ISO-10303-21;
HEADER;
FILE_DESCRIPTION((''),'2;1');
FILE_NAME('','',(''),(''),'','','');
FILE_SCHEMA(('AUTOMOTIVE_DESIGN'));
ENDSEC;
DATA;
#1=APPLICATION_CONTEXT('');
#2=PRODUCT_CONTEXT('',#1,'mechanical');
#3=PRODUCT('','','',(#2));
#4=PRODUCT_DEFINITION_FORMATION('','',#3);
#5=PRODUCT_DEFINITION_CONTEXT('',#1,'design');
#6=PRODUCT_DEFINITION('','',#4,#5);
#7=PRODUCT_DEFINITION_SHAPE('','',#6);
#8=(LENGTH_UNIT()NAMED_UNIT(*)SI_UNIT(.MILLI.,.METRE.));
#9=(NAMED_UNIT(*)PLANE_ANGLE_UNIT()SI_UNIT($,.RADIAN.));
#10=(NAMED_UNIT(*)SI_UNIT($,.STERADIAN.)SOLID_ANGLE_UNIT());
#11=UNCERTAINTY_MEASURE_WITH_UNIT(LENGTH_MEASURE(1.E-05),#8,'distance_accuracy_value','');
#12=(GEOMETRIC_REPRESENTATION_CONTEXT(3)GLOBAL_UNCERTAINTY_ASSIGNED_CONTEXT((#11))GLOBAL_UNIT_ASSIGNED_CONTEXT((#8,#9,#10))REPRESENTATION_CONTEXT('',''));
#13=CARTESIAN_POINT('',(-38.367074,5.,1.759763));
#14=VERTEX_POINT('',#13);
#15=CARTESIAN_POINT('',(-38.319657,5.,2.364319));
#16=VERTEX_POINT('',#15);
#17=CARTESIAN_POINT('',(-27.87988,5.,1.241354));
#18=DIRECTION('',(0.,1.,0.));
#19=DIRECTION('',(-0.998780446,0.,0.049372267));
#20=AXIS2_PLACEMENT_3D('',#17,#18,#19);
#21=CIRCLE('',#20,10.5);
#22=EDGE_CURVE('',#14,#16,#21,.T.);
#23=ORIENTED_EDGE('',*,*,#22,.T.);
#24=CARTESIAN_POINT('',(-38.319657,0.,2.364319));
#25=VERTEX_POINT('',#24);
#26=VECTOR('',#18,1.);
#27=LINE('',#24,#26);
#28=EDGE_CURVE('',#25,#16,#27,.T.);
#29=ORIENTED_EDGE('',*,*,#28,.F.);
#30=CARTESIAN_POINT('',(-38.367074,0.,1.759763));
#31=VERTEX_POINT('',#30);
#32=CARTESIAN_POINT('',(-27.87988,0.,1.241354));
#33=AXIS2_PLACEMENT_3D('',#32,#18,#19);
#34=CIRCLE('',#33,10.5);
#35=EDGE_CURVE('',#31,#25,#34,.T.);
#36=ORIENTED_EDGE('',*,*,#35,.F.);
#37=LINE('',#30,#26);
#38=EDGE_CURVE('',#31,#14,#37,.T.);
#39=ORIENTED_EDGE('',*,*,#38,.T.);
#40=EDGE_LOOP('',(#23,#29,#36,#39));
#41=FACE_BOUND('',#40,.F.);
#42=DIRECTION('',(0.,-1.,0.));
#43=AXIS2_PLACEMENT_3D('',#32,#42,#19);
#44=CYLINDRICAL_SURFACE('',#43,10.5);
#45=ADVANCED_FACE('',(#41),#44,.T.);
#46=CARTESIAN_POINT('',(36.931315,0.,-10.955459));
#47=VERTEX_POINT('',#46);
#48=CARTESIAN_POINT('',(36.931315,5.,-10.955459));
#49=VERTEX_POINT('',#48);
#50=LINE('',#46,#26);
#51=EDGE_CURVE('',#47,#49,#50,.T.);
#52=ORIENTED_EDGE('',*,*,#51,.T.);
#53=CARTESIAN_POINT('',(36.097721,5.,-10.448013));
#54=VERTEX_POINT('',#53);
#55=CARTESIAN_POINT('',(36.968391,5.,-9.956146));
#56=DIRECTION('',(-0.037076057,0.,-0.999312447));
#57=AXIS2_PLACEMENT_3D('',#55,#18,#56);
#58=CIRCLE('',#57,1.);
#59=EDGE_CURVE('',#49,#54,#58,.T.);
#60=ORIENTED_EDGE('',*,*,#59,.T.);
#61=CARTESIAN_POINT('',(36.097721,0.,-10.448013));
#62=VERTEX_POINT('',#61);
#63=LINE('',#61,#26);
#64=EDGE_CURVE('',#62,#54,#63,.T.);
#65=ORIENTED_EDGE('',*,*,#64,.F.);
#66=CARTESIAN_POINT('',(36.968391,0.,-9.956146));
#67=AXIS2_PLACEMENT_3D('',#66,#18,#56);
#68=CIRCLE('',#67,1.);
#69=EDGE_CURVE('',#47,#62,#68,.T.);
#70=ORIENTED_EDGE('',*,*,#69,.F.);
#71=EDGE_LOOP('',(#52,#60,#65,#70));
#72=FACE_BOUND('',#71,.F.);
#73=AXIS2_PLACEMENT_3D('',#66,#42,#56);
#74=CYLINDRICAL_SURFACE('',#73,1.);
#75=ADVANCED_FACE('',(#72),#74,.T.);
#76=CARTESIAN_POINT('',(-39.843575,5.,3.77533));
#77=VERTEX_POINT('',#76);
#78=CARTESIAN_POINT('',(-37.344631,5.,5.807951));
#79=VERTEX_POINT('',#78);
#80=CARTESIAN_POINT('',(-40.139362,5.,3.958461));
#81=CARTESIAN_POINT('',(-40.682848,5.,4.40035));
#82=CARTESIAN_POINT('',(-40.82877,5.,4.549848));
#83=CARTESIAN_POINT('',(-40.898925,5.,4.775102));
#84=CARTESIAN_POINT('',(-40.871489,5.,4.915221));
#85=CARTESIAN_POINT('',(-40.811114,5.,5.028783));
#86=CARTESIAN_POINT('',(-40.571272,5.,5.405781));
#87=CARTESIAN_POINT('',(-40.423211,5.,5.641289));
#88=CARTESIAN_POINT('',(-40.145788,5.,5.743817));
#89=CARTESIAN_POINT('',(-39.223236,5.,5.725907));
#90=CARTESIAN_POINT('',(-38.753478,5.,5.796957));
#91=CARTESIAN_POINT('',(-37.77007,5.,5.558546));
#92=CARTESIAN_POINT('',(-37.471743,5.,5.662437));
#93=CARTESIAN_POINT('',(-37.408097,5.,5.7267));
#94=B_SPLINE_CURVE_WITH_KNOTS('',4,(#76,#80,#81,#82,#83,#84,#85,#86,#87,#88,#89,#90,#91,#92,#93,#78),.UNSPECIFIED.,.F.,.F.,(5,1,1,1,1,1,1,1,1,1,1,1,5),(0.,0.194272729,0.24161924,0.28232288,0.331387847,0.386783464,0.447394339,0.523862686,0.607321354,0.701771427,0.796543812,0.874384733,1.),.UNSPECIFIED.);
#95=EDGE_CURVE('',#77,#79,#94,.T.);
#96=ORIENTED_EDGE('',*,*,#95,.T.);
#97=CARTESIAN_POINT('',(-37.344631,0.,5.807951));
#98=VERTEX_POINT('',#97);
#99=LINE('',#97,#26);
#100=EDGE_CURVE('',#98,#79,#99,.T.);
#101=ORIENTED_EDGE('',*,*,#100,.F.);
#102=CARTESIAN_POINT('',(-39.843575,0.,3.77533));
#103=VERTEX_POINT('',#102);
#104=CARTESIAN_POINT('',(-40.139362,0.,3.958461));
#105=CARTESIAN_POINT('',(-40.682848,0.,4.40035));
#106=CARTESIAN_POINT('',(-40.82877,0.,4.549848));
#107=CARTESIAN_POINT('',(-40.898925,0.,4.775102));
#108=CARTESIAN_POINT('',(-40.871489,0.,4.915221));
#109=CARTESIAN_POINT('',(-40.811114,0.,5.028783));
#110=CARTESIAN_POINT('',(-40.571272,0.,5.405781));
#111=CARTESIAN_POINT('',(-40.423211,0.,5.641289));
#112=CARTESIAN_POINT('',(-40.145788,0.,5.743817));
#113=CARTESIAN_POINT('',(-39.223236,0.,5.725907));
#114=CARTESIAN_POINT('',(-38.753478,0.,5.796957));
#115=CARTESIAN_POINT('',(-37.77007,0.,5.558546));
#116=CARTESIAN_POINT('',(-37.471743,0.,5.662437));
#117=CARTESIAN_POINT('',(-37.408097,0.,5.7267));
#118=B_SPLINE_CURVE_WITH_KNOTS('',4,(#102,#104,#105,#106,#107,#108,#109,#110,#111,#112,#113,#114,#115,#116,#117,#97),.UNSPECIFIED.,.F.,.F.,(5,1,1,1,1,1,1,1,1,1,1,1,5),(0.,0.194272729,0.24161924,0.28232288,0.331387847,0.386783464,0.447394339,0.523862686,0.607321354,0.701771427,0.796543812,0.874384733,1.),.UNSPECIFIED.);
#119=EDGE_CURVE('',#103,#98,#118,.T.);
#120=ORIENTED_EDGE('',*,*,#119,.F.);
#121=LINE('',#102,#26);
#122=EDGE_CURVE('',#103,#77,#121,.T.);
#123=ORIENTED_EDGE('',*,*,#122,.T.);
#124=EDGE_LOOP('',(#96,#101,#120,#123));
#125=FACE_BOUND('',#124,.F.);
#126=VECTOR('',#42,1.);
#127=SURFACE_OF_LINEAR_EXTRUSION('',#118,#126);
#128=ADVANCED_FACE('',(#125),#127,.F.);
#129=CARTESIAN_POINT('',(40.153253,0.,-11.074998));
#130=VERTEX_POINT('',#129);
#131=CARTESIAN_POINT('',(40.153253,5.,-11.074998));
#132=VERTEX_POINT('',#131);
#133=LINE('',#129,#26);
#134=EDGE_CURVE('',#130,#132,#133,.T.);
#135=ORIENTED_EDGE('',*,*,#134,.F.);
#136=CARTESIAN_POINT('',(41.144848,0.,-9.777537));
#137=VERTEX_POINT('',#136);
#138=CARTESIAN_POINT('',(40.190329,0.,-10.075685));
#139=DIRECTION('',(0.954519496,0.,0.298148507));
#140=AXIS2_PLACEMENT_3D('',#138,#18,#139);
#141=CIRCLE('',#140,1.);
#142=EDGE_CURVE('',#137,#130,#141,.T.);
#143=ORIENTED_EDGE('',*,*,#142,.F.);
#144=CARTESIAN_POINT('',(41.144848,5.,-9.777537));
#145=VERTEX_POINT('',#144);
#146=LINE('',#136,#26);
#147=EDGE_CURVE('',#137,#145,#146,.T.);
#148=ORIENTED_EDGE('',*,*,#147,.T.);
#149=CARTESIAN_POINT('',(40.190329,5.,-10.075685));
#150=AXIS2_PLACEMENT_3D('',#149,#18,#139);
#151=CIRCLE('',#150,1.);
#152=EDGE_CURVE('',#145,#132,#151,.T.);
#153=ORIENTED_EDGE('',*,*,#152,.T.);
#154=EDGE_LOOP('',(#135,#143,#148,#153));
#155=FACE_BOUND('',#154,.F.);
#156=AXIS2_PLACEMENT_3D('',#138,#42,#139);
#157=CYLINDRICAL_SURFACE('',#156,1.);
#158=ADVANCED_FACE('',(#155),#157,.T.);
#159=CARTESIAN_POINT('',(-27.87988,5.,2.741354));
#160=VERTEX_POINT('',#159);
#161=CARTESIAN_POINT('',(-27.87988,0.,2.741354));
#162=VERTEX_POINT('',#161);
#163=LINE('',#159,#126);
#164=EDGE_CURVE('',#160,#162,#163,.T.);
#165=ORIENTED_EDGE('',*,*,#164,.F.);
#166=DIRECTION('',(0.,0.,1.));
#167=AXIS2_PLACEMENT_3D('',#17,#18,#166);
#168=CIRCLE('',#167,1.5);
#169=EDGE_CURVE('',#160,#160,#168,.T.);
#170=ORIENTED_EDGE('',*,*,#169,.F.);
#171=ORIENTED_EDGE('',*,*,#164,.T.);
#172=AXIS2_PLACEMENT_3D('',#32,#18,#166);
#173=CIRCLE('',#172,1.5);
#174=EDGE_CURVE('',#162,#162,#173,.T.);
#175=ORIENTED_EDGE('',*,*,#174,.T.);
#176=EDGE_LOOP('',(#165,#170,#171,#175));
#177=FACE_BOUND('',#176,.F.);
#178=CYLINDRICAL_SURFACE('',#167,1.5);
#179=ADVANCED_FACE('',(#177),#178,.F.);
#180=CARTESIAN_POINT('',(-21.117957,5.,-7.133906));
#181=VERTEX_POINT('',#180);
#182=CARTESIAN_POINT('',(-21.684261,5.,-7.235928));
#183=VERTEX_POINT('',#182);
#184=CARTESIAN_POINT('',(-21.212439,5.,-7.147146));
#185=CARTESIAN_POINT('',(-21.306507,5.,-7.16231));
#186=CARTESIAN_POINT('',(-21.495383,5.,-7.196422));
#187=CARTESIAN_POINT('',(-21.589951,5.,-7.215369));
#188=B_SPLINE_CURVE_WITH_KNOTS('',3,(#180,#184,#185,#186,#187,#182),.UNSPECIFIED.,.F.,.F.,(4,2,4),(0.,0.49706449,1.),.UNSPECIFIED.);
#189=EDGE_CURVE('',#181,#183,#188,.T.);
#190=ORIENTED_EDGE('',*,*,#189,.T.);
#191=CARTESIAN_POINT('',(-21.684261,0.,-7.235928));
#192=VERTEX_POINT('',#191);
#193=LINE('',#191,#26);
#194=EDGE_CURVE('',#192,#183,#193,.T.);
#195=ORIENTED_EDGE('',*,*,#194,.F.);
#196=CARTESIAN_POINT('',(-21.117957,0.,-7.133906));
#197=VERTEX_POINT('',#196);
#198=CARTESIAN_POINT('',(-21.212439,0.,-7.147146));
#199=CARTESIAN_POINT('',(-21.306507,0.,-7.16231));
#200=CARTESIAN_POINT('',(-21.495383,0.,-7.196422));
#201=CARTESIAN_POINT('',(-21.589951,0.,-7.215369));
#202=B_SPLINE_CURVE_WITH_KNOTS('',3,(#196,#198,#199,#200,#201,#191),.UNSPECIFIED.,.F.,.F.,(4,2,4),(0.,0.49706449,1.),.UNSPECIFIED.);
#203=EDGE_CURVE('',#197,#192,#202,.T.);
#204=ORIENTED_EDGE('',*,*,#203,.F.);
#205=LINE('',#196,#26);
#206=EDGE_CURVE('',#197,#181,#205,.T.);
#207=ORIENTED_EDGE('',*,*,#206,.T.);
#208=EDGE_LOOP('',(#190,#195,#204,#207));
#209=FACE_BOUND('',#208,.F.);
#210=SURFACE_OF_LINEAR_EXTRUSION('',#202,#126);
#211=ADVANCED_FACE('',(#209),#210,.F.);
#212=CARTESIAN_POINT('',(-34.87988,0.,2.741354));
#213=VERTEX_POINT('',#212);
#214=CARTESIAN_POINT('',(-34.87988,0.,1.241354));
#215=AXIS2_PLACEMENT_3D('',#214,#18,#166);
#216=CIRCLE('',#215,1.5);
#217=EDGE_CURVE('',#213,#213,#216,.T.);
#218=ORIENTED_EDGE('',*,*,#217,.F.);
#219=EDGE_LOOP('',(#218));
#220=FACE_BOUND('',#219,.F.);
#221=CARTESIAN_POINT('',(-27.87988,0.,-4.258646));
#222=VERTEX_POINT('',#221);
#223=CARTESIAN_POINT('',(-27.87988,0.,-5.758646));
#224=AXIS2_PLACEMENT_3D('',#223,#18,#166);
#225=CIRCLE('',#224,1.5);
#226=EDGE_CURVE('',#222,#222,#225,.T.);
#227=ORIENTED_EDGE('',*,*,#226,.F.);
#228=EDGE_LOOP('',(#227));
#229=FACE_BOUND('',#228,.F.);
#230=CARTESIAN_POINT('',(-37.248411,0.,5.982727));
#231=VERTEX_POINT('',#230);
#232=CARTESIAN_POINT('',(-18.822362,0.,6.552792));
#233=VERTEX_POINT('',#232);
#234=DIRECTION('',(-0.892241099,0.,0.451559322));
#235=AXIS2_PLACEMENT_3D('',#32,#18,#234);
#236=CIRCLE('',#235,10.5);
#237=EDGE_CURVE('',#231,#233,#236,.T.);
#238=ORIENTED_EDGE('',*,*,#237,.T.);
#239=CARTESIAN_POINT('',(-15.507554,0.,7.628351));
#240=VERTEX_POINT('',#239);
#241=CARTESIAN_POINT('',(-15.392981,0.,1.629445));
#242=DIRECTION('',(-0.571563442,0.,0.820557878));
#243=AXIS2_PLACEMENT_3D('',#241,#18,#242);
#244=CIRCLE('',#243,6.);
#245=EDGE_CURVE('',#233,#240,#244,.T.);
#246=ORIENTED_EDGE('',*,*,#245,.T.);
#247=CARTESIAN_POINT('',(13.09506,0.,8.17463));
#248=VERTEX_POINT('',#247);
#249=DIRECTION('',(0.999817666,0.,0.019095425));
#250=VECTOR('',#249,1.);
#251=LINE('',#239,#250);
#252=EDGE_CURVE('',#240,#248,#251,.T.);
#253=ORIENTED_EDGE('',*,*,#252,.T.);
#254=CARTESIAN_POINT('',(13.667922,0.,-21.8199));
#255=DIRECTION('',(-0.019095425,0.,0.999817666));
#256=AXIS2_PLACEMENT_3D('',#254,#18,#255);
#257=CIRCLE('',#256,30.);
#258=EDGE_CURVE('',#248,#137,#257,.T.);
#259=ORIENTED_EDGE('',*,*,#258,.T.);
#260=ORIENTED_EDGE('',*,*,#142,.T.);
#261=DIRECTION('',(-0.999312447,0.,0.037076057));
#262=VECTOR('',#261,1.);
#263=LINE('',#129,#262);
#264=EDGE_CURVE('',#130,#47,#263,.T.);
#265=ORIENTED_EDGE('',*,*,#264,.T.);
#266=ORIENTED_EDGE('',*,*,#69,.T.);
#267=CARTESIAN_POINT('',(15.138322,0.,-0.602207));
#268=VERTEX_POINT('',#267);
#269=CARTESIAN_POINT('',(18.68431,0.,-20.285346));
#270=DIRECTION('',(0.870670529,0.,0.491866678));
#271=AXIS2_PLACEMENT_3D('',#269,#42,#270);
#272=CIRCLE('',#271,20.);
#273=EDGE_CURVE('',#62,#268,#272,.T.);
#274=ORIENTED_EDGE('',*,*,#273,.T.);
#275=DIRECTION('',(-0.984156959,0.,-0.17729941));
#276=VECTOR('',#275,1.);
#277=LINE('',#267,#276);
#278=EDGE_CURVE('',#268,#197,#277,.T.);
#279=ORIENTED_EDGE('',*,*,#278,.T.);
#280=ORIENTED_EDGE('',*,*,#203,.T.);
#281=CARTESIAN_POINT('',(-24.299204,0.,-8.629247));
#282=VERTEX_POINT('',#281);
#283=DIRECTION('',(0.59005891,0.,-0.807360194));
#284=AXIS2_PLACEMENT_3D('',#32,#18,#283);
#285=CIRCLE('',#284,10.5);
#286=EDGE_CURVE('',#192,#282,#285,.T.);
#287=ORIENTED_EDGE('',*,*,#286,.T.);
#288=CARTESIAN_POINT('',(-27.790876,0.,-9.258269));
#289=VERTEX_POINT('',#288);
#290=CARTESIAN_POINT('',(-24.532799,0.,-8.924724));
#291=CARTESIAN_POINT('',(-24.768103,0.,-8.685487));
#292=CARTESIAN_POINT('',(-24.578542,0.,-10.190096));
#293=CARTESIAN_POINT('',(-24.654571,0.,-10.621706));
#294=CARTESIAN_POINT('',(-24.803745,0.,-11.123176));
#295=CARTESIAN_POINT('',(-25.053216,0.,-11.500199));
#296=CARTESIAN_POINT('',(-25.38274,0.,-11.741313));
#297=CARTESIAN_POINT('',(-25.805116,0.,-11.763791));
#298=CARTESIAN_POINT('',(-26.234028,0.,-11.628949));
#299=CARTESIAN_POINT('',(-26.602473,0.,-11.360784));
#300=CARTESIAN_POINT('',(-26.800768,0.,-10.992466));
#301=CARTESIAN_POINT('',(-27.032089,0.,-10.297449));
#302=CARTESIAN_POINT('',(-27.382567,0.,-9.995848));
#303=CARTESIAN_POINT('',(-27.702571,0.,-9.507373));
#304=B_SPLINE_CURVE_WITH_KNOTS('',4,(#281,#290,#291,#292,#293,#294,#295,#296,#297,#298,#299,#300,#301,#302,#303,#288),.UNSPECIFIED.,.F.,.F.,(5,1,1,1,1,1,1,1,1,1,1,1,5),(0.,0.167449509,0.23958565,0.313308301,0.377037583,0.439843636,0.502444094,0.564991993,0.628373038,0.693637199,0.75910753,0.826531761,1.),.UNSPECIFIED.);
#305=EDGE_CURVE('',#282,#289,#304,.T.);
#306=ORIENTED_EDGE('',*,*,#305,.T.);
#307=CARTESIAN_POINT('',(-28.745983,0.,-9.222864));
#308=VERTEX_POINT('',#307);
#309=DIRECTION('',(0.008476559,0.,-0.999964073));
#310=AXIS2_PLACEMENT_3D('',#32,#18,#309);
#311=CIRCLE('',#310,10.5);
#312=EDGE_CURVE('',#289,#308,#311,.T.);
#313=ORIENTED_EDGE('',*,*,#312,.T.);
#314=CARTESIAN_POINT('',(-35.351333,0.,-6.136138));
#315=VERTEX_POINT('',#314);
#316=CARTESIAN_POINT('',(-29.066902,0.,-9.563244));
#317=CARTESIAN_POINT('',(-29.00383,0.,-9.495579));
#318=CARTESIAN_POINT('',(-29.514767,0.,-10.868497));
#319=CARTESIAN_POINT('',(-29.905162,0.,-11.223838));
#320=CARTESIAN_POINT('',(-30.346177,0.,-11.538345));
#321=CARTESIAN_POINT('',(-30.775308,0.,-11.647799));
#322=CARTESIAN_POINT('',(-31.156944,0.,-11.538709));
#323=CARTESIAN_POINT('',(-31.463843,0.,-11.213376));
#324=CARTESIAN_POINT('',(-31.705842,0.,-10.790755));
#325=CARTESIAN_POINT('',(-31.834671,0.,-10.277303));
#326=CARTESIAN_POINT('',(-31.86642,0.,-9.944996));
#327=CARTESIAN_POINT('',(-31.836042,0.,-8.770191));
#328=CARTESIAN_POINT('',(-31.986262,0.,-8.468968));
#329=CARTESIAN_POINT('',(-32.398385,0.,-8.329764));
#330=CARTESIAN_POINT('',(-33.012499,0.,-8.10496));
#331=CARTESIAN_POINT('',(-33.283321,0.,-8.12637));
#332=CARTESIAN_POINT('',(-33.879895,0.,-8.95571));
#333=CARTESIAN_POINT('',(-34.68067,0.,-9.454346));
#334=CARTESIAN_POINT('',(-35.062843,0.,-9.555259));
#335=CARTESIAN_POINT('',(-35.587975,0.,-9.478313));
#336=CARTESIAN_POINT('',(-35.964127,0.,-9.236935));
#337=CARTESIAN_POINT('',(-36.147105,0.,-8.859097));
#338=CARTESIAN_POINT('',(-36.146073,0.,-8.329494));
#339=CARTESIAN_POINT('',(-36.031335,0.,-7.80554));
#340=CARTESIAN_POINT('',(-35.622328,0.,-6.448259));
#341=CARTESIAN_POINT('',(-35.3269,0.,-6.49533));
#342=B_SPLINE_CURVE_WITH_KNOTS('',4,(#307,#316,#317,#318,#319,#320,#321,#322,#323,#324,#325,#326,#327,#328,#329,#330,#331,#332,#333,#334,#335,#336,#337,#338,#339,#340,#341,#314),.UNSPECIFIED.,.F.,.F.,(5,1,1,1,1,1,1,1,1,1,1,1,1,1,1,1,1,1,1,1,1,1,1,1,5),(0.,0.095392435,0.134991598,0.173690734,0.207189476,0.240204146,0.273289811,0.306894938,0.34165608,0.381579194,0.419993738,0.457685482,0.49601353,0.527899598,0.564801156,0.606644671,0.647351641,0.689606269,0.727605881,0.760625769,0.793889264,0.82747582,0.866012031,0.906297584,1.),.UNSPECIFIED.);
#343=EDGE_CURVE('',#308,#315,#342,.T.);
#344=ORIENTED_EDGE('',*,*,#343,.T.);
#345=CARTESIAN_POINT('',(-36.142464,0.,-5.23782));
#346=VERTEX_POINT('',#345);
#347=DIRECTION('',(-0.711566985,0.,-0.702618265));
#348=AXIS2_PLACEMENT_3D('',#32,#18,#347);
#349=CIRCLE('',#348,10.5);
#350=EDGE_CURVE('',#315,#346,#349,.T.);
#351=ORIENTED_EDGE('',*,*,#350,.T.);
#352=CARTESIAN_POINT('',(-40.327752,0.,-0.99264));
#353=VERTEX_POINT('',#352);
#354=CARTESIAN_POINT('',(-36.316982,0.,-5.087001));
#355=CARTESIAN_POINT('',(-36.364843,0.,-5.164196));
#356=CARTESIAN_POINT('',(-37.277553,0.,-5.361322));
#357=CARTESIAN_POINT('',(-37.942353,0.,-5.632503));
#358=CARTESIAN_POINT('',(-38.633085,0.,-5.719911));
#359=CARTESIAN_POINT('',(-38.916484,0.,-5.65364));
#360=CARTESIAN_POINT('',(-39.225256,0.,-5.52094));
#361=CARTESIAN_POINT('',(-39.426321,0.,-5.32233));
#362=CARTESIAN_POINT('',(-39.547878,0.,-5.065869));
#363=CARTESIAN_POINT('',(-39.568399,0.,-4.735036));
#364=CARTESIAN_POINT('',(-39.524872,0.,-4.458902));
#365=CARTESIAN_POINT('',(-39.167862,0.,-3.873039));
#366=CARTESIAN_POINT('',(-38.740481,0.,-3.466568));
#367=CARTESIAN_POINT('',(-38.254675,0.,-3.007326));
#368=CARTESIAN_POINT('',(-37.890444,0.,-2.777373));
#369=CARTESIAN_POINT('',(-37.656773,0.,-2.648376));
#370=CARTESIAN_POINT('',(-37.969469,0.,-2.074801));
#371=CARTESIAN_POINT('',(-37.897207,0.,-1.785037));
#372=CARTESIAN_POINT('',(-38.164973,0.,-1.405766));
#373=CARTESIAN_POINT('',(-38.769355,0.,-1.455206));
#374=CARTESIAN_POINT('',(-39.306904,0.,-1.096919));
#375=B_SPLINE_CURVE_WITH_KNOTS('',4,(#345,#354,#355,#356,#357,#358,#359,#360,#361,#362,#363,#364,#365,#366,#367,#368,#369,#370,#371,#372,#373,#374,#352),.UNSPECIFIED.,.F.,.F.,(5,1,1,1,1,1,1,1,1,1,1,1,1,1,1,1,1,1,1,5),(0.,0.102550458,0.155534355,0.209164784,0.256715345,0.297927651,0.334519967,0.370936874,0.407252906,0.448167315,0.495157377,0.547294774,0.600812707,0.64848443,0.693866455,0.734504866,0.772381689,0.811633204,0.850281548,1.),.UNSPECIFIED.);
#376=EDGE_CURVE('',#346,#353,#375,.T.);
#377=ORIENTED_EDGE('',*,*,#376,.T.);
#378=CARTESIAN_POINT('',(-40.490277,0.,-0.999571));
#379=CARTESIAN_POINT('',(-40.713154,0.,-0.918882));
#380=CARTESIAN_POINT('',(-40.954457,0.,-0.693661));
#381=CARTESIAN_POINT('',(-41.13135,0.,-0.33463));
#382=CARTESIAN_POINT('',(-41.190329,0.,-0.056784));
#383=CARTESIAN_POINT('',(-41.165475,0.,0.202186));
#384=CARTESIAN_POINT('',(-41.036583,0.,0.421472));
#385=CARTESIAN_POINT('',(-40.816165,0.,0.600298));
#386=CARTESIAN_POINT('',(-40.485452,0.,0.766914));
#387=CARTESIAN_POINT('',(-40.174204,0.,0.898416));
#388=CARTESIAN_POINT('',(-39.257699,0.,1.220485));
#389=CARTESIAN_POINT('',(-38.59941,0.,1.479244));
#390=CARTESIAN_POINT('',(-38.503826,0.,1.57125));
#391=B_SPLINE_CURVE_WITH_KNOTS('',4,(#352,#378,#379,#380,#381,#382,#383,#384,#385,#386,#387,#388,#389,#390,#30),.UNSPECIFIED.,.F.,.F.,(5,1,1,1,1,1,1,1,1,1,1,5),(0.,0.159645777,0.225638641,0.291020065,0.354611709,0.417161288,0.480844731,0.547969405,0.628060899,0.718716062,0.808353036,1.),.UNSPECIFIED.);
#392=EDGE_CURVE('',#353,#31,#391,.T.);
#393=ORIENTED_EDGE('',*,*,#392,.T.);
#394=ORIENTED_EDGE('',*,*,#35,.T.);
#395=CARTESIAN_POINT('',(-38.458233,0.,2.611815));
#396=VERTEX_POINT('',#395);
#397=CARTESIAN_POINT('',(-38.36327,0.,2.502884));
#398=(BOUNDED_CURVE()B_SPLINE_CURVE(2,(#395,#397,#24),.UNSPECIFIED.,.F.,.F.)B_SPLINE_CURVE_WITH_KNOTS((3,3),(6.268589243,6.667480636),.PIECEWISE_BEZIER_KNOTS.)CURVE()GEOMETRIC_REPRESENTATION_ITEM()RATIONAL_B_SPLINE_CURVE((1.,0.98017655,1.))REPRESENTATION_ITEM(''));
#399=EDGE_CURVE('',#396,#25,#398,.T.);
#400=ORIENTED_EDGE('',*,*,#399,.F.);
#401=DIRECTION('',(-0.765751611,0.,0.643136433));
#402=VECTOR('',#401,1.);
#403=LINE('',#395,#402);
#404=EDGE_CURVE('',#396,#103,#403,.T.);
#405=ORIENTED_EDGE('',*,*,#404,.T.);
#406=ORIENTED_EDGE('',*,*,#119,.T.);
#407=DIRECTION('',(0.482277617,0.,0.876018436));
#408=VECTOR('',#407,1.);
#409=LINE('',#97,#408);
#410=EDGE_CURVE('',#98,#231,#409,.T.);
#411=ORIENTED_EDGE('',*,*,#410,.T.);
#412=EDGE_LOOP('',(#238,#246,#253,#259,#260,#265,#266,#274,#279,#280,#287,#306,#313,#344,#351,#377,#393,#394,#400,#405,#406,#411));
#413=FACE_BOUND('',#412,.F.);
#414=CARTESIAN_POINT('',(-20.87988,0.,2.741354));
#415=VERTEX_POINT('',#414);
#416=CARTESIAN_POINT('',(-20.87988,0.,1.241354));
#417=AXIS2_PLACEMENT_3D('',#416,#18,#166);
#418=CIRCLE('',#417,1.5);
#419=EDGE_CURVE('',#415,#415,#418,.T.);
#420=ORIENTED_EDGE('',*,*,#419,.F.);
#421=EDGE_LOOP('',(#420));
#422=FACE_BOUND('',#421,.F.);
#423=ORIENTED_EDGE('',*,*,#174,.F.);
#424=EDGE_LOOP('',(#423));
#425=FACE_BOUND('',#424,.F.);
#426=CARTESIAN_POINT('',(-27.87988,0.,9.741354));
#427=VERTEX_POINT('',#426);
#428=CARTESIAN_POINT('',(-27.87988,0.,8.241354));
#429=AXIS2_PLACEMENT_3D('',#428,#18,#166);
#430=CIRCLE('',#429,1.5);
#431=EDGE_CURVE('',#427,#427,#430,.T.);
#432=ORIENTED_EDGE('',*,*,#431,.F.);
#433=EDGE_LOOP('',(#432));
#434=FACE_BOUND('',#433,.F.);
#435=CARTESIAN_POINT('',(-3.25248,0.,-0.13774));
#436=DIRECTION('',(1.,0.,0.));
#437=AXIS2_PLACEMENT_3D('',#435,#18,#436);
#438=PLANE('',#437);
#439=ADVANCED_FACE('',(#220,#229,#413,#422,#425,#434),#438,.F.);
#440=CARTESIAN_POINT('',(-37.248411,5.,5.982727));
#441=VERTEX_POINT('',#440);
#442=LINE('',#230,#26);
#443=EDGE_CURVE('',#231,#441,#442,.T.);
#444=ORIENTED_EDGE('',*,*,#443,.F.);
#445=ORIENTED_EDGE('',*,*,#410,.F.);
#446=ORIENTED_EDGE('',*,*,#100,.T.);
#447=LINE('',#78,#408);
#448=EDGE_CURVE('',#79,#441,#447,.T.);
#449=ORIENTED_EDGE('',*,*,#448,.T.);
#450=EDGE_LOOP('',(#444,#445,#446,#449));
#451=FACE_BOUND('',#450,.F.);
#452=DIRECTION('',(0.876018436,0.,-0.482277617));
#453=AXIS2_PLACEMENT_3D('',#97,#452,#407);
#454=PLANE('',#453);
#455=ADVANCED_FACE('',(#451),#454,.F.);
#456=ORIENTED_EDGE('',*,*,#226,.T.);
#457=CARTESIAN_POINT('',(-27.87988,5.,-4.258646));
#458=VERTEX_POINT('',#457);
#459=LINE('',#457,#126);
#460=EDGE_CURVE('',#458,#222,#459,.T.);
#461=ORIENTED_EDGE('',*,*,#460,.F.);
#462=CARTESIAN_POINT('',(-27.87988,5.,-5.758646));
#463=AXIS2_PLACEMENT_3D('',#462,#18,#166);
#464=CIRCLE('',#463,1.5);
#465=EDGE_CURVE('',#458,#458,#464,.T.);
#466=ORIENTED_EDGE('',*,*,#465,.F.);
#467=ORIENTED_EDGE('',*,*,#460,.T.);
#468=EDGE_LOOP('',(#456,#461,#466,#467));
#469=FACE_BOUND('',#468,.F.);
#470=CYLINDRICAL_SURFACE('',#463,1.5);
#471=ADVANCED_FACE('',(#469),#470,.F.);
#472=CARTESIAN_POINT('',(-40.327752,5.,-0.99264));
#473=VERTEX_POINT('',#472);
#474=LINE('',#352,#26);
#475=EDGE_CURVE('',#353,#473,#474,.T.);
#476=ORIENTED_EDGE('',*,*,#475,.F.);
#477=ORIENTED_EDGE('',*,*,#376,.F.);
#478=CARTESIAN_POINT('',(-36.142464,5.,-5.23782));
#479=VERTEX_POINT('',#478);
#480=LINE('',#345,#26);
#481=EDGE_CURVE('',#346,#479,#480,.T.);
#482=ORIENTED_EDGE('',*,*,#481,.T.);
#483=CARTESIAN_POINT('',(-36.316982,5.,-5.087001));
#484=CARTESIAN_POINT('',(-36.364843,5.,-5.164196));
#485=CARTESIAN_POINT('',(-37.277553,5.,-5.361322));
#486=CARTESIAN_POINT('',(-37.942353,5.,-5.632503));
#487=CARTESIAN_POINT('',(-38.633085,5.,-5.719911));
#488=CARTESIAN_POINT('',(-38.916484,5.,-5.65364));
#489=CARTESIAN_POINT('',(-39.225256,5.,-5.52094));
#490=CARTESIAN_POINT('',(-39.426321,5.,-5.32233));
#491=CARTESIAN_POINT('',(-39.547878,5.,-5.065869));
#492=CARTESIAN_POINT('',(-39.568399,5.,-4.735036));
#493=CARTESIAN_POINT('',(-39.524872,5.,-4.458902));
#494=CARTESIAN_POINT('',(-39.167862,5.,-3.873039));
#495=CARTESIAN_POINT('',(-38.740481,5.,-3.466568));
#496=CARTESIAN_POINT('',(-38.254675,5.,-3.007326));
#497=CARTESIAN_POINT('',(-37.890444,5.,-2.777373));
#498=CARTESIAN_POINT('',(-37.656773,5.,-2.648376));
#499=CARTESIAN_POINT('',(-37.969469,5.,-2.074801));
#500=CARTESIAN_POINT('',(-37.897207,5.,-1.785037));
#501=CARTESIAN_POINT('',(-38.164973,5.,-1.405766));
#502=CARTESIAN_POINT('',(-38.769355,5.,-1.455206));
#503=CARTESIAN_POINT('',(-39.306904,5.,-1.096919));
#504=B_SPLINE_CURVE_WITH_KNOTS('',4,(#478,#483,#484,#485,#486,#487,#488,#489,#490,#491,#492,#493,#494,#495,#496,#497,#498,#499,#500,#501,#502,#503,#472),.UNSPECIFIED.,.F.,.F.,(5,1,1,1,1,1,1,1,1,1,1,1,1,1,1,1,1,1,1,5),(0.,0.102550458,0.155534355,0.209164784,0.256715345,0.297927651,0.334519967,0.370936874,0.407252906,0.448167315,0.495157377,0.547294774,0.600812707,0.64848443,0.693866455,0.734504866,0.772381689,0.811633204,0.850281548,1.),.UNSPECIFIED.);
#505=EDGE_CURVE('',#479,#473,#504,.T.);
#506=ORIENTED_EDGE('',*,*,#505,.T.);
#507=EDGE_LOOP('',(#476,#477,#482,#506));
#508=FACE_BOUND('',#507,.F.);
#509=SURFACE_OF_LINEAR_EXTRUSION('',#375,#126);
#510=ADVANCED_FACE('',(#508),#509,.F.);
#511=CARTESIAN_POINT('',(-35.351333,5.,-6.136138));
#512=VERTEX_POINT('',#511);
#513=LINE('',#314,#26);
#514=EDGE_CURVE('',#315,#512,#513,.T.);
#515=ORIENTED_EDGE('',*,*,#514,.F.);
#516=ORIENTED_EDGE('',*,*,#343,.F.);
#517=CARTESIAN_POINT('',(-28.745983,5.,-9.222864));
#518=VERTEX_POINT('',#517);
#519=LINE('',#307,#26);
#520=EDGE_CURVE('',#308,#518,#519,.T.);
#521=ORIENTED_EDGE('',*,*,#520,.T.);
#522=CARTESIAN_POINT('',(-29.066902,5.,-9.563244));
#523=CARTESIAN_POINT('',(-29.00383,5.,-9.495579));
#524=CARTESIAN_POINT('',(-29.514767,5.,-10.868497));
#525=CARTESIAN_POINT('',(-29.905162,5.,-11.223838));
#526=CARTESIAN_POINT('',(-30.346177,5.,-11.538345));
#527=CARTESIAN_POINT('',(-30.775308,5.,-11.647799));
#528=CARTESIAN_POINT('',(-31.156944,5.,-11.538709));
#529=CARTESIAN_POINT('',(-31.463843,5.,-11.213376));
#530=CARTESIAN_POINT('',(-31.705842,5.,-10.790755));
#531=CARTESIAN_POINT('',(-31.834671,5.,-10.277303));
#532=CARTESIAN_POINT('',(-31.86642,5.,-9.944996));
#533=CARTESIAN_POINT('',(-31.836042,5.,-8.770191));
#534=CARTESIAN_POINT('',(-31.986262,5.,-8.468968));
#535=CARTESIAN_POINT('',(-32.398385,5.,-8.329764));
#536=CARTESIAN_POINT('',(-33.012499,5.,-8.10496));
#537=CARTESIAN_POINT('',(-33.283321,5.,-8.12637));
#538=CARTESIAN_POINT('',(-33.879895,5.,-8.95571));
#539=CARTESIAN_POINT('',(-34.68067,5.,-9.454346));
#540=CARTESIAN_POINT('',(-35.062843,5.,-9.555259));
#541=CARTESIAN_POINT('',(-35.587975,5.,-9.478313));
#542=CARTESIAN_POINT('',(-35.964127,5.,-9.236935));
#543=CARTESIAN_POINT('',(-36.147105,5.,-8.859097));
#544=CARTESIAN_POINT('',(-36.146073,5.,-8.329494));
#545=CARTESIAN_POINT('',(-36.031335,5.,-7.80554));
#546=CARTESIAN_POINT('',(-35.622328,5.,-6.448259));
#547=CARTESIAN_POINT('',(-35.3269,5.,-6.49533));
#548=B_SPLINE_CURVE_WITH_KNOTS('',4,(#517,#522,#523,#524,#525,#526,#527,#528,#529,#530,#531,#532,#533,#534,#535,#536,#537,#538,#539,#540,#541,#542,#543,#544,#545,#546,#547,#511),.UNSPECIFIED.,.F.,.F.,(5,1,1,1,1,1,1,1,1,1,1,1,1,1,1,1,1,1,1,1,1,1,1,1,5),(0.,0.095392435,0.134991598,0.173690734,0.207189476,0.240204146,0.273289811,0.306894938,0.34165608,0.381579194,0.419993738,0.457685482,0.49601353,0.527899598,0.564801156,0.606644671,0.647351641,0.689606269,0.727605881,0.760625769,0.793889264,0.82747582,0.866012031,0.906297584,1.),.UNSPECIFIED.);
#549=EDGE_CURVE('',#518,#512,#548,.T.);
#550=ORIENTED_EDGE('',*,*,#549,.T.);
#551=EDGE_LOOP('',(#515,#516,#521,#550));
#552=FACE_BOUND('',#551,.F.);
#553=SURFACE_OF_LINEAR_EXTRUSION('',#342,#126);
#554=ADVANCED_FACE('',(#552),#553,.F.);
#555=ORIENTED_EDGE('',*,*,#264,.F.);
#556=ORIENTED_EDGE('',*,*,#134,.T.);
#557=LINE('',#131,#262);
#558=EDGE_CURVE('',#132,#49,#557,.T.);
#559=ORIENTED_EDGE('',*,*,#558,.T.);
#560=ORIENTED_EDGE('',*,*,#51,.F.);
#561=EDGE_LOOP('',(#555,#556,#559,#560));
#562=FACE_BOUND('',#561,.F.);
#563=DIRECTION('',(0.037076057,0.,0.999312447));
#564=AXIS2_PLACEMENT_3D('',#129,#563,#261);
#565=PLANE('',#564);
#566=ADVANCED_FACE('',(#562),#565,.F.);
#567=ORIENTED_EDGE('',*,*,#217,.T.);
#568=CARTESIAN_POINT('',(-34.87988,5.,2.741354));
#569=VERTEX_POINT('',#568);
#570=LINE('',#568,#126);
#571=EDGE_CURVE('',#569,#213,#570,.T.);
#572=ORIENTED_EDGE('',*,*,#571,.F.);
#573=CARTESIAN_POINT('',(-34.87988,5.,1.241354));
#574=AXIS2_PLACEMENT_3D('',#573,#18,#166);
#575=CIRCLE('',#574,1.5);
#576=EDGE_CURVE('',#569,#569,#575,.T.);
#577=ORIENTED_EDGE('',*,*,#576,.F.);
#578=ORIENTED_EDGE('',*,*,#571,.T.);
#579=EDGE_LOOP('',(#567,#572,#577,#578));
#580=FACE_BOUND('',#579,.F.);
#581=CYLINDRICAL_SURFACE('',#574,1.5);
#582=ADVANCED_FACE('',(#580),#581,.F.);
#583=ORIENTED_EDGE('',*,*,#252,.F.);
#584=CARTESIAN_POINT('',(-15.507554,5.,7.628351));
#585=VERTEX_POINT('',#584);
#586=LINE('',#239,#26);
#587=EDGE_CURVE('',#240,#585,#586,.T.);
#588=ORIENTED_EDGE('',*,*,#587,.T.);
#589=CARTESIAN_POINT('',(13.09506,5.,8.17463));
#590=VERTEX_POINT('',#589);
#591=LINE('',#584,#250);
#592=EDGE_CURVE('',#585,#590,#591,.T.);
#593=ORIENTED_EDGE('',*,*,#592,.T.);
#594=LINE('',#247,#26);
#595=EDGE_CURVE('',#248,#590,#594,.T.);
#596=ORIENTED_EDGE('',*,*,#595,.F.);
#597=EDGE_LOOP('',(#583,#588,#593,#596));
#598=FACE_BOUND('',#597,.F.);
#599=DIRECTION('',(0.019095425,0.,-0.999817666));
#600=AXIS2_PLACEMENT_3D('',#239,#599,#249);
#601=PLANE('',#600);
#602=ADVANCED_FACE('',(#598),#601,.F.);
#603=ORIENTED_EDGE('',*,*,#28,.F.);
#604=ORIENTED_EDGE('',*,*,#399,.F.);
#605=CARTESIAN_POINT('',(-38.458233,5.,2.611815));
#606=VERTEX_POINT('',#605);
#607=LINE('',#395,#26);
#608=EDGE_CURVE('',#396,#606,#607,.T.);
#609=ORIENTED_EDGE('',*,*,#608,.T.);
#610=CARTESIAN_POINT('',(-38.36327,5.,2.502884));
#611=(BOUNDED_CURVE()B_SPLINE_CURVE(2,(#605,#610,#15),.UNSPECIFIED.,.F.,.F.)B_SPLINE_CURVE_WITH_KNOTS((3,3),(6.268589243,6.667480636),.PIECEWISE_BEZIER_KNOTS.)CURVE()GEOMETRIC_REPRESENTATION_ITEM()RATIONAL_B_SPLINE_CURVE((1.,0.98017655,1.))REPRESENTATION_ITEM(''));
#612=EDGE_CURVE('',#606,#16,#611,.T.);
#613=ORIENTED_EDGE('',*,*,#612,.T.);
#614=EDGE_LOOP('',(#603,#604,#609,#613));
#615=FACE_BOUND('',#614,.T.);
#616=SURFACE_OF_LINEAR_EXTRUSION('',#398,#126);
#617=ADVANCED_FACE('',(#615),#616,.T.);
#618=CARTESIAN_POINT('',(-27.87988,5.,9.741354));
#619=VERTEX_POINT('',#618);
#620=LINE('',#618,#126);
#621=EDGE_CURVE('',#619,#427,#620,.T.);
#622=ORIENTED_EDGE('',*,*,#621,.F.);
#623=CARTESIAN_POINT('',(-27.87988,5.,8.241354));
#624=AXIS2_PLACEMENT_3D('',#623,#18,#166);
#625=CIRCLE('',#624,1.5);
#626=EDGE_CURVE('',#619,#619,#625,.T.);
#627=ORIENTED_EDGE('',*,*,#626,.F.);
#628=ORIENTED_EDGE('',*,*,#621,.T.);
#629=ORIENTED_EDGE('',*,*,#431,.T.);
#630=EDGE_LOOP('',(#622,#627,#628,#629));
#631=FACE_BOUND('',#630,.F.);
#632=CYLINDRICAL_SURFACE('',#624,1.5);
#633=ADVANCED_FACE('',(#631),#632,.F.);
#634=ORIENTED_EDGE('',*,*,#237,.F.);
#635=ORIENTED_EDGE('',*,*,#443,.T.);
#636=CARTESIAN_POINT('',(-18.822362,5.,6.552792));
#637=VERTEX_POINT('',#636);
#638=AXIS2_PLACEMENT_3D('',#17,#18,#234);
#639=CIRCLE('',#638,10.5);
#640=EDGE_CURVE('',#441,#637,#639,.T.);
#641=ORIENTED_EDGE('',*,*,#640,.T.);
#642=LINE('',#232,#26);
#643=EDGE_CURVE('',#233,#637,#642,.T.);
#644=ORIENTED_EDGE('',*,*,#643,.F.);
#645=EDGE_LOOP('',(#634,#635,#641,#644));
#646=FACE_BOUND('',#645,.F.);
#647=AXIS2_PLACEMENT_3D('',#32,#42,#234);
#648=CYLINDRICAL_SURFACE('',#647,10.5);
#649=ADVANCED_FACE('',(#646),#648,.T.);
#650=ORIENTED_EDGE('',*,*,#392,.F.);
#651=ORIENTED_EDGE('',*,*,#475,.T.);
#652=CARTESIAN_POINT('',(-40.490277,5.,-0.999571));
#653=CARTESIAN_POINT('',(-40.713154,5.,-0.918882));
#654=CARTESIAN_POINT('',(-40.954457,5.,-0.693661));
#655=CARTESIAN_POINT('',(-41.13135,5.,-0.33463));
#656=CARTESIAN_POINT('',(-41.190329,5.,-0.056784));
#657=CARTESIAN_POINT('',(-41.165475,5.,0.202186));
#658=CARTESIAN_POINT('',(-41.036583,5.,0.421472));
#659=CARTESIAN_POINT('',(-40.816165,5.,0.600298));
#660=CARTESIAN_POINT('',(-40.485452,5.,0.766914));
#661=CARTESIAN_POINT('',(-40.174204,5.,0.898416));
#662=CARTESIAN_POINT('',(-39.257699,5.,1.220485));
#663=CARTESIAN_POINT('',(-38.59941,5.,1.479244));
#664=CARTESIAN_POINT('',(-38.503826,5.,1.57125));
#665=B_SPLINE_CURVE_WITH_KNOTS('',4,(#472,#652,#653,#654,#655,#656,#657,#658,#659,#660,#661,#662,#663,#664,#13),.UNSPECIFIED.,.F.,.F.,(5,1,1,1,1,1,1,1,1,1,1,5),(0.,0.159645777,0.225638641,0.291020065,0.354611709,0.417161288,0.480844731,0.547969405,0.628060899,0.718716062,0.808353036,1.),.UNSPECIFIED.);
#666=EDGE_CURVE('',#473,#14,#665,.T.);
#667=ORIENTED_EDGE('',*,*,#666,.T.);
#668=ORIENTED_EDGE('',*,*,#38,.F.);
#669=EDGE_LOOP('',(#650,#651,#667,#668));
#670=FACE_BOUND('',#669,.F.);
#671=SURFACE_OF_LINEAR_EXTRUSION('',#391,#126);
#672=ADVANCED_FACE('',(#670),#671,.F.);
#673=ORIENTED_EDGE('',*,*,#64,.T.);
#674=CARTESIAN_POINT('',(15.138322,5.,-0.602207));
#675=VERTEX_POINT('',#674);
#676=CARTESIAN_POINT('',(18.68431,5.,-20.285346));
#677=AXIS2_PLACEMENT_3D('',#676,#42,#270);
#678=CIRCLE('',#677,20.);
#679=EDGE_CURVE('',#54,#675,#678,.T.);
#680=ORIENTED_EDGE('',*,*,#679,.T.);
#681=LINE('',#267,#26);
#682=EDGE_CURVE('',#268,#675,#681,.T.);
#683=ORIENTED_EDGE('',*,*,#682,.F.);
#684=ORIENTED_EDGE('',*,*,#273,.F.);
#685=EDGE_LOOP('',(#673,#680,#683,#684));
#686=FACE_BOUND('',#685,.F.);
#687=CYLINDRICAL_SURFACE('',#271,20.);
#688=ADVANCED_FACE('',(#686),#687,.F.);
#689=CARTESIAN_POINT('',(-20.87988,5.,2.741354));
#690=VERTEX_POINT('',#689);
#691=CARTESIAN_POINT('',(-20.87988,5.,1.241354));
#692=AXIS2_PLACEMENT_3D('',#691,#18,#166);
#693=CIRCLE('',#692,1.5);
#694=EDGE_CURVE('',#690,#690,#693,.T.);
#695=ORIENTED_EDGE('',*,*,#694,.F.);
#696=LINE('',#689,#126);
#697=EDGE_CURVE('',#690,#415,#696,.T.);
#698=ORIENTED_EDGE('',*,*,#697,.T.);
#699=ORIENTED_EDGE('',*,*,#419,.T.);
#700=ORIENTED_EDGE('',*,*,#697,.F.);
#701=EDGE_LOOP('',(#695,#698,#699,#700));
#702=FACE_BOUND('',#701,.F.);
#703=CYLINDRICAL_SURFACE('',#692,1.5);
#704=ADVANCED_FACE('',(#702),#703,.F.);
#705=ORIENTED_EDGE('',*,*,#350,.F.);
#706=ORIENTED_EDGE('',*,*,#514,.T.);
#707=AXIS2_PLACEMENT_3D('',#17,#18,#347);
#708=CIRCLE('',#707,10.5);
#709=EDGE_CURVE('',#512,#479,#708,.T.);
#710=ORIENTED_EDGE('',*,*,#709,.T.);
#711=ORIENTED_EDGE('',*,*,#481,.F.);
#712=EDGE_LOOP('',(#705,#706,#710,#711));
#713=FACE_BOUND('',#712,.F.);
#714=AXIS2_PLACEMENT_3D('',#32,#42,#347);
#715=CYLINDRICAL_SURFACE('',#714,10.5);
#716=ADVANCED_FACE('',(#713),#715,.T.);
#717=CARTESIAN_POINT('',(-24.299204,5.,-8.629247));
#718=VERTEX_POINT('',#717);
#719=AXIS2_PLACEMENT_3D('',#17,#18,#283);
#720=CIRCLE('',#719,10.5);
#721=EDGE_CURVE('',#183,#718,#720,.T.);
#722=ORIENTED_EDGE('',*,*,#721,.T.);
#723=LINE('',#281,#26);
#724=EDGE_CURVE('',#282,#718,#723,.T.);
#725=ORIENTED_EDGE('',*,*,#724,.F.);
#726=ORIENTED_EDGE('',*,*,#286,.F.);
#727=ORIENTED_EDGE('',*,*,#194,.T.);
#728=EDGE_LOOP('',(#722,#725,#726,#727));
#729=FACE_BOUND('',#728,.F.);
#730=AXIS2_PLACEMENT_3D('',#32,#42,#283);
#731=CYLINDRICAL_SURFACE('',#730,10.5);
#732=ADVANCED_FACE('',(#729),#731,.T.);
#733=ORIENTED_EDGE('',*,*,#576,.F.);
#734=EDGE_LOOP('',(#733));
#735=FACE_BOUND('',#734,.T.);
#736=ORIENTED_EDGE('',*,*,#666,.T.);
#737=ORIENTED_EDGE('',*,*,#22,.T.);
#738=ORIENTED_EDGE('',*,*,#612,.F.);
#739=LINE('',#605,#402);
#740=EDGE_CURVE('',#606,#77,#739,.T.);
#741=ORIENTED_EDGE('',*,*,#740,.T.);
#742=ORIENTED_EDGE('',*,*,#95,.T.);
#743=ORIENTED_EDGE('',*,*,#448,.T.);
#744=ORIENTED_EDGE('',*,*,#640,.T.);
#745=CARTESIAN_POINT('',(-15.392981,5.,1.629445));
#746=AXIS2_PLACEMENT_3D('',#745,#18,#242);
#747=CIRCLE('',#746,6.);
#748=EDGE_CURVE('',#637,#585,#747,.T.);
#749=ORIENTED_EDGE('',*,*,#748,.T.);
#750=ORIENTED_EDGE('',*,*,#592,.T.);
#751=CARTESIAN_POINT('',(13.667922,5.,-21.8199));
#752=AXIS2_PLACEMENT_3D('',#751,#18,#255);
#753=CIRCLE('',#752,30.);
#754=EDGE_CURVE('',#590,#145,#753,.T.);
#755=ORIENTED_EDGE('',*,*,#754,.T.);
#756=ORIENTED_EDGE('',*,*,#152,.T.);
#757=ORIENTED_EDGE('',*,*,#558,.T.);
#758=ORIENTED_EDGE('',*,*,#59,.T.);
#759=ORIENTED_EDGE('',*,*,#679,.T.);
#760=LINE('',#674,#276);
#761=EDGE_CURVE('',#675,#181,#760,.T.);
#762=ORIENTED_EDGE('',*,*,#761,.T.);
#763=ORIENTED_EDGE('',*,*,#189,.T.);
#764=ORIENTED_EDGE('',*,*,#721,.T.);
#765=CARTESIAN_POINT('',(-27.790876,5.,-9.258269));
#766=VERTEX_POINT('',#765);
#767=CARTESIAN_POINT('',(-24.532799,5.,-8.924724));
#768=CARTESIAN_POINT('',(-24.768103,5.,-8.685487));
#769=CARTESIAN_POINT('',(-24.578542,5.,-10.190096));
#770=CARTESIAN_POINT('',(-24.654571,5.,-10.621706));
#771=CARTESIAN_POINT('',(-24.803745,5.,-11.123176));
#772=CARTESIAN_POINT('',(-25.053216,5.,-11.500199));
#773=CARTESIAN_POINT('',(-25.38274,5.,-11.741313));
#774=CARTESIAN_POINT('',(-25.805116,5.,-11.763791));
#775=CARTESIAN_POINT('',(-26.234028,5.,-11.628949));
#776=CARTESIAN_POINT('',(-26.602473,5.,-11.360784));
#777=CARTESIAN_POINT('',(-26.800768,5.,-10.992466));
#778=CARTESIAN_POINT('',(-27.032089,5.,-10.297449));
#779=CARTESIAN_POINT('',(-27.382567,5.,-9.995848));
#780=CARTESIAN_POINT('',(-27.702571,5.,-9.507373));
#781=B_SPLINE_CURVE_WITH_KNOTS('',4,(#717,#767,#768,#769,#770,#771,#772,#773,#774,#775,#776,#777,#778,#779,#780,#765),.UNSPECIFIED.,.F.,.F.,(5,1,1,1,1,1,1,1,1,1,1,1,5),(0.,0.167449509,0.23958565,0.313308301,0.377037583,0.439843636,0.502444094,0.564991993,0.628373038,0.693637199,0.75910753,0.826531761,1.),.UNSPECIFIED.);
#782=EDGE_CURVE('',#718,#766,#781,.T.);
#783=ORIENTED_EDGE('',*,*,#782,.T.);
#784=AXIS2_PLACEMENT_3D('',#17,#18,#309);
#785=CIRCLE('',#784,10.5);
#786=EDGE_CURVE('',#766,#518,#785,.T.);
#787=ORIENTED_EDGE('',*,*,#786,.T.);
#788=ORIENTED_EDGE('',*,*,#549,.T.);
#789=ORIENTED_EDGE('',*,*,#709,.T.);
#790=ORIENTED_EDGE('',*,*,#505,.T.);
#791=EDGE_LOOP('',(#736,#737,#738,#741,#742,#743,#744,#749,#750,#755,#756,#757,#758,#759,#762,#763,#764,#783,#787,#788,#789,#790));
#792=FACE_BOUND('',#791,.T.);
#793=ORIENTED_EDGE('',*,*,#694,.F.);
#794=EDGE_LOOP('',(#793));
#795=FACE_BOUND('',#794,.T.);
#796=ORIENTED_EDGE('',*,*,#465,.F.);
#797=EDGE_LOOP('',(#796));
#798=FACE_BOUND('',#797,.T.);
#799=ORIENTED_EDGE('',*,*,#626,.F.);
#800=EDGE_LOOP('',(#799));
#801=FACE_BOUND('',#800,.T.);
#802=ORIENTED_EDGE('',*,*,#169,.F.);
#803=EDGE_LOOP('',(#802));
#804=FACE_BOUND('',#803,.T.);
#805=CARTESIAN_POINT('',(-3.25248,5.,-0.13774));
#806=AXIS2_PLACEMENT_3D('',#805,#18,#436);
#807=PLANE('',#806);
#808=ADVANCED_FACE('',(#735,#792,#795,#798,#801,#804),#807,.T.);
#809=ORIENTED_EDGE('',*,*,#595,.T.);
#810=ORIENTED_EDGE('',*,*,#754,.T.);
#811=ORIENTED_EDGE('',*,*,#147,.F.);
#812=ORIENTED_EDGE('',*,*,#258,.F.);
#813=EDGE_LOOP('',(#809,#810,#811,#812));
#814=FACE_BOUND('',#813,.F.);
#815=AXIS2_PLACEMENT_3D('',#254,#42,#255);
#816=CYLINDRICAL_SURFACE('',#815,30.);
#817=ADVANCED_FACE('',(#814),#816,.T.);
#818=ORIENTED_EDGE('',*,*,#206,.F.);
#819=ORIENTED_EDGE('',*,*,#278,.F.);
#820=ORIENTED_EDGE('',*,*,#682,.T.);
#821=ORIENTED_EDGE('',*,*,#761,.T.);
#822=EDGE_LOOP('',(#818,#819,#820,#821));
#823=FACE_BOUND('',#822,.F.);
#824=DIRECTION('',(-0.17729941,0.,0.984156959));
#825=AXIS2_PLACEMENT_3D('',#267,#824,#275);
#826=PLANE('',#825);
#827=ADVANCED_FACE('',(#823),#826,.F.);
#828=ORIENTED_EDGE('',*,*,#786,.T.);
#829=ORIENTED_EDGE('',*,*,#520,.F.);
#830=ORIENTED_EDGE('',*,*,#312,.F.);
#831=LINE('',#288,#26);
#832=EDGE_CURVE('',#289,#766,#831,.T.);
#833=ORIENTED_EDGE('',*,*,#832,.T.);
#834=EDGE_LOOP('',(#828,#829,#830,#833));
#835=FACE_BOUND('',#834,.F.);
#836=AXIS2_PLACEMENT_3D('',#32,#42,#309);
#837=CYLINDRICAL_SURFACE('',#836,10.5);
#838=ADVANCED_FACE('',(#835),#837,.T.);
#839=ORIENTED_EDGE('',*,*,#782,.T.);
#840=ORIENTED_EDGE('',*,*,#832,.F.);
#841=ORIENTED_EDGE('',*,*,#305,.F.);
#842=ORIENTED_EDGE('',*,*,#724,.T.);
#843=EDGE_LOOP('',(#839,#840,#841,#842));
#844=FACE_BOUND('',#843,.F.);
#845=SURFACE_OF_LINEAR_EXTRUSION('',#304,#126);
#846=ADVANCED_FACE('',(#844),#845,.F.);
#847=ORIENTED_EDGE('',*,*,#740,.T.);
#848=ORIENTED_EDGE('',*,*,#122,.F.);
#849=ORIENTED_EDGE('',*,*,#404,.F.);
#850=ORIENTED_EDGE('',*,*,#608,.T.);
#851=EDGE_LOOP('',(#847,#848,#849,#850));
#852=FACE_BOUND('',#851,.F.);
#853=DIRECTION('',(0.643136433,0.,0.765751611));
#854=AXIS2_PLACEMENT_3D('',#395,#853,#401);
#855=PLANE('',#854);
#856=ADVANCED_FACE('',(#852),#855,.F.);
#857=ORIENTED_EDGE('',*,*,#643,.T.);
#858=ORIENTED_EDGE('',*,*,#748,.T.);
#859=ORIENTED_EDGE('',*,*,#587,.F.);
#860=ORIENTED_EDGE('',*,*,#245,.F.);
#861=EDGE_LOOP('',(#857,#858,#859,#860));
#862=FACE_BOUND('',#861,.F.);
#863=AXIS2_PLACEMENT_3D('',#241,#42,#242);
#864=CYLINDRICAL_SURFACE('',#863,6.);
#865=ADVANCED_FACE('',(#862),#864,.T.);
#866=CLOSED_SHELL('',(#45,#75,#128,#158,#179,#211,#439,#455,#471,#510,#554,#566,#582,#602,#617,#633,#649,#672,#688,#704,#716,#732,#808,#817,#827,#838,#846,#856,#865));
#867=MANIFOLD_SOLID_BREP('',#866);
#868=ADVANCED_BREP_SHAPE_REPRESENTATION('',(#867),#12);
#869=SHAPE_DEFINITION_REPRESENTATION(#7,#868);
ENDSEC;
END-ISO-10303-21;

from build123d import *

# Parameters (mm, degrees)
EXTRUDE_1_DEPTH     = 5
SKETCH_2_R          = 1.5
CUT_EXTRUDE_1_DEPTH = 10


with BuildPart() as part:
    # 草图1 → 凸台-拉伸1 (new body)
    with BuildSketch(Plane(origin=(0, 0, 0), x_dir=(1, 0, 0), z_dir=(0, 1, 0))):
        with BuildLine():
            Line((-37.344631386, -5.807950968), (-37.248411234, -5.982727122))
            ThreePointArc((-37.248411234, -5.982727122), (-28.204573284, -11.73633278), (-18.822361929, -6.552792192))
            ThreePointArc((-18.822361929, -6.552792192), (-17.244766286, -7.336536325), (-15.507553828, -7.628350916))
            Line((-15.507553828, -7.628350916), (13.095059506, -8.174629585))
            ThreePointArc((13.095059506, -8.174629585), (29.839725685, -3.448118413), (41.144848497, 9.777536636))
            ThreePointArc((41.144848497, 9.777536636), (40.984858326, 10.682910927), (40.153252945, 11.07499759))
            Line((40.153252945, 11.07499759), (36.931315171, 10.955458653))
            ThreePointArc((36.931315171, 10.955458653), (36.448414047, 10.810326358), (36.097720698, 10.448012884))
            ThreePointArc((36.097720698, 10.448012884), (27.187916573, 2.183173181), (15.138321905, 0.602207281))
            Line((15.138321905, 0.602207281), (-21.117956687, 7.13390607))
            add(Edge.make_bspline(
                [(-21.117956687, 7.13390607), (-21.212438708, 7.147145532), (-21.306506603, 7.162309908), (-21.49538337, 7.196421735), (-21.589951037, 7.215369103), (-21.684261093, 7.235927839)],
                knots=[0, 0, 0, 0, 0.49706449, 0.49706449, 1, 1, 1, 1], degree=3, weights=[1, 1, 1, 1, 1, 1]))
            ThreePointArc((-21.684261093, 7.235927839), (-22.942337934, 8.025289306), (-24.299203626, 8.629246555))
            add(Edge.make_bspline(
                [(-24.299203626, 8.629246555), (-24.532798722, 8.924723672), (-24.768102501, 8.685486998), (-24.578542349, 10.190095573), (-24.654571202, 10.621705824), (-24.803745168, 11.123175885), (-25.053216231, 11.500198593), (-25.382740348, 11.741312615), (-25.805116059, 11.763790533), (-26.234027965, 11.628949186), (-26.602472691, 11.360783902), (-26.800767539, 10.992466414), (-27.032088728, 10.297448588), (-27.38256735, 9.995847546), (-27.702570577, 9.507372882), (-27.790875823, 9.258268525)],
                knots=[0, 0, 0, 0, 0, 0.167449509, 0.23958565, 0.313308301, 0.377037583, 0.439843636, 0.502444094, 0.564991993, 0.628373038, 0.693637199, 0.75910753, 0.826531761, 1, 1, 1, 1, 1], degree=4, weights=[1, 1, 1, 1, 1, 1, 1, 1, 1, 1, 1, 1, 1, 1, 1, 1]))
            ThreePointArc((-27.790875823, 9.258268525), (-28.268832567, 9.251439266), (-28.745983221, 9.222864058))
            add(Edge.make_bspline(
                [(-28.745983221, 9.222864058), (-29.066902207, 9.563243986), (-29.003830101, 9.495579417), (-29.514766582, 10.868497408), (-29.905161613, 11.223837825), (-30.346177399, 11.538345016), (-30.775308403, 11.647798666), (-31.15694413, 11.538709287), (-31.463842893, 11.213375665), (-31.705842412, 10.790755006), (-31.834670629, 10.277302759), (-31.866419694, 9.944996347), (-31.83604185, 8.770191318), (-31.986261554, 8.468967586), (-32.398385173, 8.329764062), (-33.012499398, 8.104959766), (-33.283321133, 8.126370455), (-33.879895168, 8.955709674), (-34.680669704, 9.454345775), (-35.06284292, 9.55525948), (-35.587974873, 9.478312866), (-35.964127285, 9.236934851), (-36.147105333, 8.859096563), (-36.146073043, 8.329493687), (-36.031334854, 7.805540112), (-35.622327566, 6.448258774), (-35.326900327, 6.495329828), (-35.351333042, 6.136137531)],
                knots=[0, 0, 0, 0, 0, 0.095392435, 0.134991598, 0.173690734, 0.207189476, 0.240204146, 0.273289811, 0.306894938, 0.34165608, 0.381579194, 0.419993738, 0.457685482, 0.49601353, 0.527899598, 0.564801156, 0.606644671, 0.647351641, 0.689606269, 0.727605881, 0.760625769, 0.793889264, 0.82747582, 0.866012031, 0.906297584, 1, 1, 1, 1, 1], degree=4, weights=[1, 1, 1, 1, 1, 1, 1, 1, 1, 1, 1, 1, 1, 1, 1, 1, 1, 1, 1, 1, 1, 1, 1, 1, 1, 1, 1, 1]))
            ThreePointArc((-35.351333042, 6.136137531), (-35.759710345, 5.698261663), (-36.142464276, 5.237819781))
            add(Edge.make_bspline(
                [(-36.142464276, 5.237819781), (-36.316981842, 5.08700098), (-36.364843159, 5.164195713), (-37.277553315, 5.361322432), (-37.942352515, 5.632502616), (-38.633084665, 5.719911328), (-38.916484297, 5.653640329), (-39.225256107, 5.520939787), (-39.426320972, 5.322329921), (-39.547878388, 5.065868766), (-39.568398866, 4.735036382), (-39.524871996, 4.458902174), (-39.16786209, 3.873039426), (-38.740480537, 3.466567721), (-38.254674568, 3.007325653), (-37.89044397, 2.777372811), (-37.656773339, 2.648376094), (-37.969468798, 2.074801064), (-37.897206508, 1.785036627), (-38.16497334, 1.405765757), (-38.769354556, 1.455206174), (-39.306904188, 1.096918841), (-40.327751852, 0.992639828)],
                knots=[0, 0, 0, 0, 0, 0.102550458, 0.155534355, 0.209164784, 0.256715345, 0.297927651, 0.334519967, 0.370936874, 0.407252906, 0.448167315, 0.495157377, 0.547294774, 0.600812707, 0.64848443, 0.693866455, 0.734504866, 0.772381689, 0.811633204, 0.850281548, 1, 1, 1, 1, 1], degree=4, weights=[1, 1, 1, 1, 1, 1, 1, 1, 1, 1, 1, 1, 1, 1, 1, 1, 1, 1, 1, 1, 1, 1, 1]))
            add(Edge.make_bspline(
                [(-40.327751852, 0.992639828), (-40.49027737, 0.999571003), (-40.713154313, 0.91888235), (-40.954457401, 0.693661162), (-41.131350194, 0.334630013), (-41.190329001, 0.056784013), (-41.165475288, -0.202186055), (-41.036582783, -0.421471855), (-40.816165219, -0.600297662), (-40.485452339, -0.766914084), (-40.174203742, -0.898416494), (-39.25769897, -1.22048507), (-38.599409521, -1.479244035), (-38.503826201, -1.571250392), (-38.367074379, -1.759763033)],
                knots=[0, 0, 0, 0, 0, 0.159645777, 0.225638641, 0.291020065, 0.354611709, 0.417161288, 0.480844731, 0.547969405, 0.628060899, 0.718716062, 0.808353036, 1, 1, 1, 1, 1], degree=4, weights=[1, 1, 1, 1, 1, 1, 1, 1, 1, 1, 1, 1, 1, 1, 1]))
            ThreePointArc((-38.367074379, -1.759763033), (-38.347731001, -2.0623835), (-38.319656978, -2.364319193))
            add(Edge.make_bspline(
                [(-38.458232897, -2.611814716), (-38.363269625, -2.502883946), (-38.319656978, -2.364319193)],
                knots=[6.268589243, 6.268589243, 6.268589243, 6.667480636, 6.667480636, 6.667480636], degree=2, weights=[1, 0.98017655, 1]))
            Line((-38.458232897, -2.611814716), (-39.843574761, -3.775330159))
            add(Edge.make_bspline(
                [(-39.843574761, -3.775330159), (-40.139361501, -3.958461335), (-40.682847629, -4.400349644), (-40.828769837, -4.549848056), (-40.898925147, -4.775101532), (-40.871489252, -4.91522108), (-40.811114459, -5.028783036), (-40.571272458, -5.405781269), (-40.423210722, -5.641288577), (-40.145787809, -5.743817026), (-39.223236405, -5.725906874), (-38.753478222, -5.796957019), (-37.770070415, -5.55854552), (-37.471743463, -5.662437325), (-37.408096689, -5.726699879), (-37.344631386, -5.807950968)],
                knots=[0, 0, 0, 0, 0, 0.194272729, 0.24161924, 0.28232288, 0.331387847, 0.386783464, 0.447394339, 0.523862686, 0.607321354, 0.701771427, 0.796543812, 0.874384733, 1, 1, 1, 1, 1], degree=4, weights=[1, 1, 1, 1, 1, 1, 1, 1, 1, 1, 1, 1, 1, 1, 1, 1]))
        make_face()
    extrude(amount=EXTRUDE_1_DEPTH)

    # 草图2 → 切除-拉伸1 (cut)
    with BuildSketch(Plane(origin=(0, 5, 0), x_dir=(1, 0, 0), z_dir=(0, 1, 0))):
        with Locations(Location((-27.879879662, -1.241354229, 0), (0, 0, 270))):
            Circle(SKETCH_2_R)
        with Locations(Location((-27.879879662, 5.758645771, 0), (0, 0, 270))):
            Circle(SKETCH_2_R)
        with Locations(Location((-20.879879662, -1.241354229, 0), (0, 0, 270))):
            Circle(SKETCH_2_R)
        with Locations(Location((-27.879879662, -8.241354229, 0), (0, 0, 270))):
            Circle(SKETCH_2_R)
        with Locations(Location((-34.879879662, -1.241354229, 0), (0, 0, 270))):
            Circle(SKETCH_2_R)
    extrude(amount=-CUT_EXTRUDE_1_DEPTH, mode=Mode.SUBTRACT)


solid = part.part
